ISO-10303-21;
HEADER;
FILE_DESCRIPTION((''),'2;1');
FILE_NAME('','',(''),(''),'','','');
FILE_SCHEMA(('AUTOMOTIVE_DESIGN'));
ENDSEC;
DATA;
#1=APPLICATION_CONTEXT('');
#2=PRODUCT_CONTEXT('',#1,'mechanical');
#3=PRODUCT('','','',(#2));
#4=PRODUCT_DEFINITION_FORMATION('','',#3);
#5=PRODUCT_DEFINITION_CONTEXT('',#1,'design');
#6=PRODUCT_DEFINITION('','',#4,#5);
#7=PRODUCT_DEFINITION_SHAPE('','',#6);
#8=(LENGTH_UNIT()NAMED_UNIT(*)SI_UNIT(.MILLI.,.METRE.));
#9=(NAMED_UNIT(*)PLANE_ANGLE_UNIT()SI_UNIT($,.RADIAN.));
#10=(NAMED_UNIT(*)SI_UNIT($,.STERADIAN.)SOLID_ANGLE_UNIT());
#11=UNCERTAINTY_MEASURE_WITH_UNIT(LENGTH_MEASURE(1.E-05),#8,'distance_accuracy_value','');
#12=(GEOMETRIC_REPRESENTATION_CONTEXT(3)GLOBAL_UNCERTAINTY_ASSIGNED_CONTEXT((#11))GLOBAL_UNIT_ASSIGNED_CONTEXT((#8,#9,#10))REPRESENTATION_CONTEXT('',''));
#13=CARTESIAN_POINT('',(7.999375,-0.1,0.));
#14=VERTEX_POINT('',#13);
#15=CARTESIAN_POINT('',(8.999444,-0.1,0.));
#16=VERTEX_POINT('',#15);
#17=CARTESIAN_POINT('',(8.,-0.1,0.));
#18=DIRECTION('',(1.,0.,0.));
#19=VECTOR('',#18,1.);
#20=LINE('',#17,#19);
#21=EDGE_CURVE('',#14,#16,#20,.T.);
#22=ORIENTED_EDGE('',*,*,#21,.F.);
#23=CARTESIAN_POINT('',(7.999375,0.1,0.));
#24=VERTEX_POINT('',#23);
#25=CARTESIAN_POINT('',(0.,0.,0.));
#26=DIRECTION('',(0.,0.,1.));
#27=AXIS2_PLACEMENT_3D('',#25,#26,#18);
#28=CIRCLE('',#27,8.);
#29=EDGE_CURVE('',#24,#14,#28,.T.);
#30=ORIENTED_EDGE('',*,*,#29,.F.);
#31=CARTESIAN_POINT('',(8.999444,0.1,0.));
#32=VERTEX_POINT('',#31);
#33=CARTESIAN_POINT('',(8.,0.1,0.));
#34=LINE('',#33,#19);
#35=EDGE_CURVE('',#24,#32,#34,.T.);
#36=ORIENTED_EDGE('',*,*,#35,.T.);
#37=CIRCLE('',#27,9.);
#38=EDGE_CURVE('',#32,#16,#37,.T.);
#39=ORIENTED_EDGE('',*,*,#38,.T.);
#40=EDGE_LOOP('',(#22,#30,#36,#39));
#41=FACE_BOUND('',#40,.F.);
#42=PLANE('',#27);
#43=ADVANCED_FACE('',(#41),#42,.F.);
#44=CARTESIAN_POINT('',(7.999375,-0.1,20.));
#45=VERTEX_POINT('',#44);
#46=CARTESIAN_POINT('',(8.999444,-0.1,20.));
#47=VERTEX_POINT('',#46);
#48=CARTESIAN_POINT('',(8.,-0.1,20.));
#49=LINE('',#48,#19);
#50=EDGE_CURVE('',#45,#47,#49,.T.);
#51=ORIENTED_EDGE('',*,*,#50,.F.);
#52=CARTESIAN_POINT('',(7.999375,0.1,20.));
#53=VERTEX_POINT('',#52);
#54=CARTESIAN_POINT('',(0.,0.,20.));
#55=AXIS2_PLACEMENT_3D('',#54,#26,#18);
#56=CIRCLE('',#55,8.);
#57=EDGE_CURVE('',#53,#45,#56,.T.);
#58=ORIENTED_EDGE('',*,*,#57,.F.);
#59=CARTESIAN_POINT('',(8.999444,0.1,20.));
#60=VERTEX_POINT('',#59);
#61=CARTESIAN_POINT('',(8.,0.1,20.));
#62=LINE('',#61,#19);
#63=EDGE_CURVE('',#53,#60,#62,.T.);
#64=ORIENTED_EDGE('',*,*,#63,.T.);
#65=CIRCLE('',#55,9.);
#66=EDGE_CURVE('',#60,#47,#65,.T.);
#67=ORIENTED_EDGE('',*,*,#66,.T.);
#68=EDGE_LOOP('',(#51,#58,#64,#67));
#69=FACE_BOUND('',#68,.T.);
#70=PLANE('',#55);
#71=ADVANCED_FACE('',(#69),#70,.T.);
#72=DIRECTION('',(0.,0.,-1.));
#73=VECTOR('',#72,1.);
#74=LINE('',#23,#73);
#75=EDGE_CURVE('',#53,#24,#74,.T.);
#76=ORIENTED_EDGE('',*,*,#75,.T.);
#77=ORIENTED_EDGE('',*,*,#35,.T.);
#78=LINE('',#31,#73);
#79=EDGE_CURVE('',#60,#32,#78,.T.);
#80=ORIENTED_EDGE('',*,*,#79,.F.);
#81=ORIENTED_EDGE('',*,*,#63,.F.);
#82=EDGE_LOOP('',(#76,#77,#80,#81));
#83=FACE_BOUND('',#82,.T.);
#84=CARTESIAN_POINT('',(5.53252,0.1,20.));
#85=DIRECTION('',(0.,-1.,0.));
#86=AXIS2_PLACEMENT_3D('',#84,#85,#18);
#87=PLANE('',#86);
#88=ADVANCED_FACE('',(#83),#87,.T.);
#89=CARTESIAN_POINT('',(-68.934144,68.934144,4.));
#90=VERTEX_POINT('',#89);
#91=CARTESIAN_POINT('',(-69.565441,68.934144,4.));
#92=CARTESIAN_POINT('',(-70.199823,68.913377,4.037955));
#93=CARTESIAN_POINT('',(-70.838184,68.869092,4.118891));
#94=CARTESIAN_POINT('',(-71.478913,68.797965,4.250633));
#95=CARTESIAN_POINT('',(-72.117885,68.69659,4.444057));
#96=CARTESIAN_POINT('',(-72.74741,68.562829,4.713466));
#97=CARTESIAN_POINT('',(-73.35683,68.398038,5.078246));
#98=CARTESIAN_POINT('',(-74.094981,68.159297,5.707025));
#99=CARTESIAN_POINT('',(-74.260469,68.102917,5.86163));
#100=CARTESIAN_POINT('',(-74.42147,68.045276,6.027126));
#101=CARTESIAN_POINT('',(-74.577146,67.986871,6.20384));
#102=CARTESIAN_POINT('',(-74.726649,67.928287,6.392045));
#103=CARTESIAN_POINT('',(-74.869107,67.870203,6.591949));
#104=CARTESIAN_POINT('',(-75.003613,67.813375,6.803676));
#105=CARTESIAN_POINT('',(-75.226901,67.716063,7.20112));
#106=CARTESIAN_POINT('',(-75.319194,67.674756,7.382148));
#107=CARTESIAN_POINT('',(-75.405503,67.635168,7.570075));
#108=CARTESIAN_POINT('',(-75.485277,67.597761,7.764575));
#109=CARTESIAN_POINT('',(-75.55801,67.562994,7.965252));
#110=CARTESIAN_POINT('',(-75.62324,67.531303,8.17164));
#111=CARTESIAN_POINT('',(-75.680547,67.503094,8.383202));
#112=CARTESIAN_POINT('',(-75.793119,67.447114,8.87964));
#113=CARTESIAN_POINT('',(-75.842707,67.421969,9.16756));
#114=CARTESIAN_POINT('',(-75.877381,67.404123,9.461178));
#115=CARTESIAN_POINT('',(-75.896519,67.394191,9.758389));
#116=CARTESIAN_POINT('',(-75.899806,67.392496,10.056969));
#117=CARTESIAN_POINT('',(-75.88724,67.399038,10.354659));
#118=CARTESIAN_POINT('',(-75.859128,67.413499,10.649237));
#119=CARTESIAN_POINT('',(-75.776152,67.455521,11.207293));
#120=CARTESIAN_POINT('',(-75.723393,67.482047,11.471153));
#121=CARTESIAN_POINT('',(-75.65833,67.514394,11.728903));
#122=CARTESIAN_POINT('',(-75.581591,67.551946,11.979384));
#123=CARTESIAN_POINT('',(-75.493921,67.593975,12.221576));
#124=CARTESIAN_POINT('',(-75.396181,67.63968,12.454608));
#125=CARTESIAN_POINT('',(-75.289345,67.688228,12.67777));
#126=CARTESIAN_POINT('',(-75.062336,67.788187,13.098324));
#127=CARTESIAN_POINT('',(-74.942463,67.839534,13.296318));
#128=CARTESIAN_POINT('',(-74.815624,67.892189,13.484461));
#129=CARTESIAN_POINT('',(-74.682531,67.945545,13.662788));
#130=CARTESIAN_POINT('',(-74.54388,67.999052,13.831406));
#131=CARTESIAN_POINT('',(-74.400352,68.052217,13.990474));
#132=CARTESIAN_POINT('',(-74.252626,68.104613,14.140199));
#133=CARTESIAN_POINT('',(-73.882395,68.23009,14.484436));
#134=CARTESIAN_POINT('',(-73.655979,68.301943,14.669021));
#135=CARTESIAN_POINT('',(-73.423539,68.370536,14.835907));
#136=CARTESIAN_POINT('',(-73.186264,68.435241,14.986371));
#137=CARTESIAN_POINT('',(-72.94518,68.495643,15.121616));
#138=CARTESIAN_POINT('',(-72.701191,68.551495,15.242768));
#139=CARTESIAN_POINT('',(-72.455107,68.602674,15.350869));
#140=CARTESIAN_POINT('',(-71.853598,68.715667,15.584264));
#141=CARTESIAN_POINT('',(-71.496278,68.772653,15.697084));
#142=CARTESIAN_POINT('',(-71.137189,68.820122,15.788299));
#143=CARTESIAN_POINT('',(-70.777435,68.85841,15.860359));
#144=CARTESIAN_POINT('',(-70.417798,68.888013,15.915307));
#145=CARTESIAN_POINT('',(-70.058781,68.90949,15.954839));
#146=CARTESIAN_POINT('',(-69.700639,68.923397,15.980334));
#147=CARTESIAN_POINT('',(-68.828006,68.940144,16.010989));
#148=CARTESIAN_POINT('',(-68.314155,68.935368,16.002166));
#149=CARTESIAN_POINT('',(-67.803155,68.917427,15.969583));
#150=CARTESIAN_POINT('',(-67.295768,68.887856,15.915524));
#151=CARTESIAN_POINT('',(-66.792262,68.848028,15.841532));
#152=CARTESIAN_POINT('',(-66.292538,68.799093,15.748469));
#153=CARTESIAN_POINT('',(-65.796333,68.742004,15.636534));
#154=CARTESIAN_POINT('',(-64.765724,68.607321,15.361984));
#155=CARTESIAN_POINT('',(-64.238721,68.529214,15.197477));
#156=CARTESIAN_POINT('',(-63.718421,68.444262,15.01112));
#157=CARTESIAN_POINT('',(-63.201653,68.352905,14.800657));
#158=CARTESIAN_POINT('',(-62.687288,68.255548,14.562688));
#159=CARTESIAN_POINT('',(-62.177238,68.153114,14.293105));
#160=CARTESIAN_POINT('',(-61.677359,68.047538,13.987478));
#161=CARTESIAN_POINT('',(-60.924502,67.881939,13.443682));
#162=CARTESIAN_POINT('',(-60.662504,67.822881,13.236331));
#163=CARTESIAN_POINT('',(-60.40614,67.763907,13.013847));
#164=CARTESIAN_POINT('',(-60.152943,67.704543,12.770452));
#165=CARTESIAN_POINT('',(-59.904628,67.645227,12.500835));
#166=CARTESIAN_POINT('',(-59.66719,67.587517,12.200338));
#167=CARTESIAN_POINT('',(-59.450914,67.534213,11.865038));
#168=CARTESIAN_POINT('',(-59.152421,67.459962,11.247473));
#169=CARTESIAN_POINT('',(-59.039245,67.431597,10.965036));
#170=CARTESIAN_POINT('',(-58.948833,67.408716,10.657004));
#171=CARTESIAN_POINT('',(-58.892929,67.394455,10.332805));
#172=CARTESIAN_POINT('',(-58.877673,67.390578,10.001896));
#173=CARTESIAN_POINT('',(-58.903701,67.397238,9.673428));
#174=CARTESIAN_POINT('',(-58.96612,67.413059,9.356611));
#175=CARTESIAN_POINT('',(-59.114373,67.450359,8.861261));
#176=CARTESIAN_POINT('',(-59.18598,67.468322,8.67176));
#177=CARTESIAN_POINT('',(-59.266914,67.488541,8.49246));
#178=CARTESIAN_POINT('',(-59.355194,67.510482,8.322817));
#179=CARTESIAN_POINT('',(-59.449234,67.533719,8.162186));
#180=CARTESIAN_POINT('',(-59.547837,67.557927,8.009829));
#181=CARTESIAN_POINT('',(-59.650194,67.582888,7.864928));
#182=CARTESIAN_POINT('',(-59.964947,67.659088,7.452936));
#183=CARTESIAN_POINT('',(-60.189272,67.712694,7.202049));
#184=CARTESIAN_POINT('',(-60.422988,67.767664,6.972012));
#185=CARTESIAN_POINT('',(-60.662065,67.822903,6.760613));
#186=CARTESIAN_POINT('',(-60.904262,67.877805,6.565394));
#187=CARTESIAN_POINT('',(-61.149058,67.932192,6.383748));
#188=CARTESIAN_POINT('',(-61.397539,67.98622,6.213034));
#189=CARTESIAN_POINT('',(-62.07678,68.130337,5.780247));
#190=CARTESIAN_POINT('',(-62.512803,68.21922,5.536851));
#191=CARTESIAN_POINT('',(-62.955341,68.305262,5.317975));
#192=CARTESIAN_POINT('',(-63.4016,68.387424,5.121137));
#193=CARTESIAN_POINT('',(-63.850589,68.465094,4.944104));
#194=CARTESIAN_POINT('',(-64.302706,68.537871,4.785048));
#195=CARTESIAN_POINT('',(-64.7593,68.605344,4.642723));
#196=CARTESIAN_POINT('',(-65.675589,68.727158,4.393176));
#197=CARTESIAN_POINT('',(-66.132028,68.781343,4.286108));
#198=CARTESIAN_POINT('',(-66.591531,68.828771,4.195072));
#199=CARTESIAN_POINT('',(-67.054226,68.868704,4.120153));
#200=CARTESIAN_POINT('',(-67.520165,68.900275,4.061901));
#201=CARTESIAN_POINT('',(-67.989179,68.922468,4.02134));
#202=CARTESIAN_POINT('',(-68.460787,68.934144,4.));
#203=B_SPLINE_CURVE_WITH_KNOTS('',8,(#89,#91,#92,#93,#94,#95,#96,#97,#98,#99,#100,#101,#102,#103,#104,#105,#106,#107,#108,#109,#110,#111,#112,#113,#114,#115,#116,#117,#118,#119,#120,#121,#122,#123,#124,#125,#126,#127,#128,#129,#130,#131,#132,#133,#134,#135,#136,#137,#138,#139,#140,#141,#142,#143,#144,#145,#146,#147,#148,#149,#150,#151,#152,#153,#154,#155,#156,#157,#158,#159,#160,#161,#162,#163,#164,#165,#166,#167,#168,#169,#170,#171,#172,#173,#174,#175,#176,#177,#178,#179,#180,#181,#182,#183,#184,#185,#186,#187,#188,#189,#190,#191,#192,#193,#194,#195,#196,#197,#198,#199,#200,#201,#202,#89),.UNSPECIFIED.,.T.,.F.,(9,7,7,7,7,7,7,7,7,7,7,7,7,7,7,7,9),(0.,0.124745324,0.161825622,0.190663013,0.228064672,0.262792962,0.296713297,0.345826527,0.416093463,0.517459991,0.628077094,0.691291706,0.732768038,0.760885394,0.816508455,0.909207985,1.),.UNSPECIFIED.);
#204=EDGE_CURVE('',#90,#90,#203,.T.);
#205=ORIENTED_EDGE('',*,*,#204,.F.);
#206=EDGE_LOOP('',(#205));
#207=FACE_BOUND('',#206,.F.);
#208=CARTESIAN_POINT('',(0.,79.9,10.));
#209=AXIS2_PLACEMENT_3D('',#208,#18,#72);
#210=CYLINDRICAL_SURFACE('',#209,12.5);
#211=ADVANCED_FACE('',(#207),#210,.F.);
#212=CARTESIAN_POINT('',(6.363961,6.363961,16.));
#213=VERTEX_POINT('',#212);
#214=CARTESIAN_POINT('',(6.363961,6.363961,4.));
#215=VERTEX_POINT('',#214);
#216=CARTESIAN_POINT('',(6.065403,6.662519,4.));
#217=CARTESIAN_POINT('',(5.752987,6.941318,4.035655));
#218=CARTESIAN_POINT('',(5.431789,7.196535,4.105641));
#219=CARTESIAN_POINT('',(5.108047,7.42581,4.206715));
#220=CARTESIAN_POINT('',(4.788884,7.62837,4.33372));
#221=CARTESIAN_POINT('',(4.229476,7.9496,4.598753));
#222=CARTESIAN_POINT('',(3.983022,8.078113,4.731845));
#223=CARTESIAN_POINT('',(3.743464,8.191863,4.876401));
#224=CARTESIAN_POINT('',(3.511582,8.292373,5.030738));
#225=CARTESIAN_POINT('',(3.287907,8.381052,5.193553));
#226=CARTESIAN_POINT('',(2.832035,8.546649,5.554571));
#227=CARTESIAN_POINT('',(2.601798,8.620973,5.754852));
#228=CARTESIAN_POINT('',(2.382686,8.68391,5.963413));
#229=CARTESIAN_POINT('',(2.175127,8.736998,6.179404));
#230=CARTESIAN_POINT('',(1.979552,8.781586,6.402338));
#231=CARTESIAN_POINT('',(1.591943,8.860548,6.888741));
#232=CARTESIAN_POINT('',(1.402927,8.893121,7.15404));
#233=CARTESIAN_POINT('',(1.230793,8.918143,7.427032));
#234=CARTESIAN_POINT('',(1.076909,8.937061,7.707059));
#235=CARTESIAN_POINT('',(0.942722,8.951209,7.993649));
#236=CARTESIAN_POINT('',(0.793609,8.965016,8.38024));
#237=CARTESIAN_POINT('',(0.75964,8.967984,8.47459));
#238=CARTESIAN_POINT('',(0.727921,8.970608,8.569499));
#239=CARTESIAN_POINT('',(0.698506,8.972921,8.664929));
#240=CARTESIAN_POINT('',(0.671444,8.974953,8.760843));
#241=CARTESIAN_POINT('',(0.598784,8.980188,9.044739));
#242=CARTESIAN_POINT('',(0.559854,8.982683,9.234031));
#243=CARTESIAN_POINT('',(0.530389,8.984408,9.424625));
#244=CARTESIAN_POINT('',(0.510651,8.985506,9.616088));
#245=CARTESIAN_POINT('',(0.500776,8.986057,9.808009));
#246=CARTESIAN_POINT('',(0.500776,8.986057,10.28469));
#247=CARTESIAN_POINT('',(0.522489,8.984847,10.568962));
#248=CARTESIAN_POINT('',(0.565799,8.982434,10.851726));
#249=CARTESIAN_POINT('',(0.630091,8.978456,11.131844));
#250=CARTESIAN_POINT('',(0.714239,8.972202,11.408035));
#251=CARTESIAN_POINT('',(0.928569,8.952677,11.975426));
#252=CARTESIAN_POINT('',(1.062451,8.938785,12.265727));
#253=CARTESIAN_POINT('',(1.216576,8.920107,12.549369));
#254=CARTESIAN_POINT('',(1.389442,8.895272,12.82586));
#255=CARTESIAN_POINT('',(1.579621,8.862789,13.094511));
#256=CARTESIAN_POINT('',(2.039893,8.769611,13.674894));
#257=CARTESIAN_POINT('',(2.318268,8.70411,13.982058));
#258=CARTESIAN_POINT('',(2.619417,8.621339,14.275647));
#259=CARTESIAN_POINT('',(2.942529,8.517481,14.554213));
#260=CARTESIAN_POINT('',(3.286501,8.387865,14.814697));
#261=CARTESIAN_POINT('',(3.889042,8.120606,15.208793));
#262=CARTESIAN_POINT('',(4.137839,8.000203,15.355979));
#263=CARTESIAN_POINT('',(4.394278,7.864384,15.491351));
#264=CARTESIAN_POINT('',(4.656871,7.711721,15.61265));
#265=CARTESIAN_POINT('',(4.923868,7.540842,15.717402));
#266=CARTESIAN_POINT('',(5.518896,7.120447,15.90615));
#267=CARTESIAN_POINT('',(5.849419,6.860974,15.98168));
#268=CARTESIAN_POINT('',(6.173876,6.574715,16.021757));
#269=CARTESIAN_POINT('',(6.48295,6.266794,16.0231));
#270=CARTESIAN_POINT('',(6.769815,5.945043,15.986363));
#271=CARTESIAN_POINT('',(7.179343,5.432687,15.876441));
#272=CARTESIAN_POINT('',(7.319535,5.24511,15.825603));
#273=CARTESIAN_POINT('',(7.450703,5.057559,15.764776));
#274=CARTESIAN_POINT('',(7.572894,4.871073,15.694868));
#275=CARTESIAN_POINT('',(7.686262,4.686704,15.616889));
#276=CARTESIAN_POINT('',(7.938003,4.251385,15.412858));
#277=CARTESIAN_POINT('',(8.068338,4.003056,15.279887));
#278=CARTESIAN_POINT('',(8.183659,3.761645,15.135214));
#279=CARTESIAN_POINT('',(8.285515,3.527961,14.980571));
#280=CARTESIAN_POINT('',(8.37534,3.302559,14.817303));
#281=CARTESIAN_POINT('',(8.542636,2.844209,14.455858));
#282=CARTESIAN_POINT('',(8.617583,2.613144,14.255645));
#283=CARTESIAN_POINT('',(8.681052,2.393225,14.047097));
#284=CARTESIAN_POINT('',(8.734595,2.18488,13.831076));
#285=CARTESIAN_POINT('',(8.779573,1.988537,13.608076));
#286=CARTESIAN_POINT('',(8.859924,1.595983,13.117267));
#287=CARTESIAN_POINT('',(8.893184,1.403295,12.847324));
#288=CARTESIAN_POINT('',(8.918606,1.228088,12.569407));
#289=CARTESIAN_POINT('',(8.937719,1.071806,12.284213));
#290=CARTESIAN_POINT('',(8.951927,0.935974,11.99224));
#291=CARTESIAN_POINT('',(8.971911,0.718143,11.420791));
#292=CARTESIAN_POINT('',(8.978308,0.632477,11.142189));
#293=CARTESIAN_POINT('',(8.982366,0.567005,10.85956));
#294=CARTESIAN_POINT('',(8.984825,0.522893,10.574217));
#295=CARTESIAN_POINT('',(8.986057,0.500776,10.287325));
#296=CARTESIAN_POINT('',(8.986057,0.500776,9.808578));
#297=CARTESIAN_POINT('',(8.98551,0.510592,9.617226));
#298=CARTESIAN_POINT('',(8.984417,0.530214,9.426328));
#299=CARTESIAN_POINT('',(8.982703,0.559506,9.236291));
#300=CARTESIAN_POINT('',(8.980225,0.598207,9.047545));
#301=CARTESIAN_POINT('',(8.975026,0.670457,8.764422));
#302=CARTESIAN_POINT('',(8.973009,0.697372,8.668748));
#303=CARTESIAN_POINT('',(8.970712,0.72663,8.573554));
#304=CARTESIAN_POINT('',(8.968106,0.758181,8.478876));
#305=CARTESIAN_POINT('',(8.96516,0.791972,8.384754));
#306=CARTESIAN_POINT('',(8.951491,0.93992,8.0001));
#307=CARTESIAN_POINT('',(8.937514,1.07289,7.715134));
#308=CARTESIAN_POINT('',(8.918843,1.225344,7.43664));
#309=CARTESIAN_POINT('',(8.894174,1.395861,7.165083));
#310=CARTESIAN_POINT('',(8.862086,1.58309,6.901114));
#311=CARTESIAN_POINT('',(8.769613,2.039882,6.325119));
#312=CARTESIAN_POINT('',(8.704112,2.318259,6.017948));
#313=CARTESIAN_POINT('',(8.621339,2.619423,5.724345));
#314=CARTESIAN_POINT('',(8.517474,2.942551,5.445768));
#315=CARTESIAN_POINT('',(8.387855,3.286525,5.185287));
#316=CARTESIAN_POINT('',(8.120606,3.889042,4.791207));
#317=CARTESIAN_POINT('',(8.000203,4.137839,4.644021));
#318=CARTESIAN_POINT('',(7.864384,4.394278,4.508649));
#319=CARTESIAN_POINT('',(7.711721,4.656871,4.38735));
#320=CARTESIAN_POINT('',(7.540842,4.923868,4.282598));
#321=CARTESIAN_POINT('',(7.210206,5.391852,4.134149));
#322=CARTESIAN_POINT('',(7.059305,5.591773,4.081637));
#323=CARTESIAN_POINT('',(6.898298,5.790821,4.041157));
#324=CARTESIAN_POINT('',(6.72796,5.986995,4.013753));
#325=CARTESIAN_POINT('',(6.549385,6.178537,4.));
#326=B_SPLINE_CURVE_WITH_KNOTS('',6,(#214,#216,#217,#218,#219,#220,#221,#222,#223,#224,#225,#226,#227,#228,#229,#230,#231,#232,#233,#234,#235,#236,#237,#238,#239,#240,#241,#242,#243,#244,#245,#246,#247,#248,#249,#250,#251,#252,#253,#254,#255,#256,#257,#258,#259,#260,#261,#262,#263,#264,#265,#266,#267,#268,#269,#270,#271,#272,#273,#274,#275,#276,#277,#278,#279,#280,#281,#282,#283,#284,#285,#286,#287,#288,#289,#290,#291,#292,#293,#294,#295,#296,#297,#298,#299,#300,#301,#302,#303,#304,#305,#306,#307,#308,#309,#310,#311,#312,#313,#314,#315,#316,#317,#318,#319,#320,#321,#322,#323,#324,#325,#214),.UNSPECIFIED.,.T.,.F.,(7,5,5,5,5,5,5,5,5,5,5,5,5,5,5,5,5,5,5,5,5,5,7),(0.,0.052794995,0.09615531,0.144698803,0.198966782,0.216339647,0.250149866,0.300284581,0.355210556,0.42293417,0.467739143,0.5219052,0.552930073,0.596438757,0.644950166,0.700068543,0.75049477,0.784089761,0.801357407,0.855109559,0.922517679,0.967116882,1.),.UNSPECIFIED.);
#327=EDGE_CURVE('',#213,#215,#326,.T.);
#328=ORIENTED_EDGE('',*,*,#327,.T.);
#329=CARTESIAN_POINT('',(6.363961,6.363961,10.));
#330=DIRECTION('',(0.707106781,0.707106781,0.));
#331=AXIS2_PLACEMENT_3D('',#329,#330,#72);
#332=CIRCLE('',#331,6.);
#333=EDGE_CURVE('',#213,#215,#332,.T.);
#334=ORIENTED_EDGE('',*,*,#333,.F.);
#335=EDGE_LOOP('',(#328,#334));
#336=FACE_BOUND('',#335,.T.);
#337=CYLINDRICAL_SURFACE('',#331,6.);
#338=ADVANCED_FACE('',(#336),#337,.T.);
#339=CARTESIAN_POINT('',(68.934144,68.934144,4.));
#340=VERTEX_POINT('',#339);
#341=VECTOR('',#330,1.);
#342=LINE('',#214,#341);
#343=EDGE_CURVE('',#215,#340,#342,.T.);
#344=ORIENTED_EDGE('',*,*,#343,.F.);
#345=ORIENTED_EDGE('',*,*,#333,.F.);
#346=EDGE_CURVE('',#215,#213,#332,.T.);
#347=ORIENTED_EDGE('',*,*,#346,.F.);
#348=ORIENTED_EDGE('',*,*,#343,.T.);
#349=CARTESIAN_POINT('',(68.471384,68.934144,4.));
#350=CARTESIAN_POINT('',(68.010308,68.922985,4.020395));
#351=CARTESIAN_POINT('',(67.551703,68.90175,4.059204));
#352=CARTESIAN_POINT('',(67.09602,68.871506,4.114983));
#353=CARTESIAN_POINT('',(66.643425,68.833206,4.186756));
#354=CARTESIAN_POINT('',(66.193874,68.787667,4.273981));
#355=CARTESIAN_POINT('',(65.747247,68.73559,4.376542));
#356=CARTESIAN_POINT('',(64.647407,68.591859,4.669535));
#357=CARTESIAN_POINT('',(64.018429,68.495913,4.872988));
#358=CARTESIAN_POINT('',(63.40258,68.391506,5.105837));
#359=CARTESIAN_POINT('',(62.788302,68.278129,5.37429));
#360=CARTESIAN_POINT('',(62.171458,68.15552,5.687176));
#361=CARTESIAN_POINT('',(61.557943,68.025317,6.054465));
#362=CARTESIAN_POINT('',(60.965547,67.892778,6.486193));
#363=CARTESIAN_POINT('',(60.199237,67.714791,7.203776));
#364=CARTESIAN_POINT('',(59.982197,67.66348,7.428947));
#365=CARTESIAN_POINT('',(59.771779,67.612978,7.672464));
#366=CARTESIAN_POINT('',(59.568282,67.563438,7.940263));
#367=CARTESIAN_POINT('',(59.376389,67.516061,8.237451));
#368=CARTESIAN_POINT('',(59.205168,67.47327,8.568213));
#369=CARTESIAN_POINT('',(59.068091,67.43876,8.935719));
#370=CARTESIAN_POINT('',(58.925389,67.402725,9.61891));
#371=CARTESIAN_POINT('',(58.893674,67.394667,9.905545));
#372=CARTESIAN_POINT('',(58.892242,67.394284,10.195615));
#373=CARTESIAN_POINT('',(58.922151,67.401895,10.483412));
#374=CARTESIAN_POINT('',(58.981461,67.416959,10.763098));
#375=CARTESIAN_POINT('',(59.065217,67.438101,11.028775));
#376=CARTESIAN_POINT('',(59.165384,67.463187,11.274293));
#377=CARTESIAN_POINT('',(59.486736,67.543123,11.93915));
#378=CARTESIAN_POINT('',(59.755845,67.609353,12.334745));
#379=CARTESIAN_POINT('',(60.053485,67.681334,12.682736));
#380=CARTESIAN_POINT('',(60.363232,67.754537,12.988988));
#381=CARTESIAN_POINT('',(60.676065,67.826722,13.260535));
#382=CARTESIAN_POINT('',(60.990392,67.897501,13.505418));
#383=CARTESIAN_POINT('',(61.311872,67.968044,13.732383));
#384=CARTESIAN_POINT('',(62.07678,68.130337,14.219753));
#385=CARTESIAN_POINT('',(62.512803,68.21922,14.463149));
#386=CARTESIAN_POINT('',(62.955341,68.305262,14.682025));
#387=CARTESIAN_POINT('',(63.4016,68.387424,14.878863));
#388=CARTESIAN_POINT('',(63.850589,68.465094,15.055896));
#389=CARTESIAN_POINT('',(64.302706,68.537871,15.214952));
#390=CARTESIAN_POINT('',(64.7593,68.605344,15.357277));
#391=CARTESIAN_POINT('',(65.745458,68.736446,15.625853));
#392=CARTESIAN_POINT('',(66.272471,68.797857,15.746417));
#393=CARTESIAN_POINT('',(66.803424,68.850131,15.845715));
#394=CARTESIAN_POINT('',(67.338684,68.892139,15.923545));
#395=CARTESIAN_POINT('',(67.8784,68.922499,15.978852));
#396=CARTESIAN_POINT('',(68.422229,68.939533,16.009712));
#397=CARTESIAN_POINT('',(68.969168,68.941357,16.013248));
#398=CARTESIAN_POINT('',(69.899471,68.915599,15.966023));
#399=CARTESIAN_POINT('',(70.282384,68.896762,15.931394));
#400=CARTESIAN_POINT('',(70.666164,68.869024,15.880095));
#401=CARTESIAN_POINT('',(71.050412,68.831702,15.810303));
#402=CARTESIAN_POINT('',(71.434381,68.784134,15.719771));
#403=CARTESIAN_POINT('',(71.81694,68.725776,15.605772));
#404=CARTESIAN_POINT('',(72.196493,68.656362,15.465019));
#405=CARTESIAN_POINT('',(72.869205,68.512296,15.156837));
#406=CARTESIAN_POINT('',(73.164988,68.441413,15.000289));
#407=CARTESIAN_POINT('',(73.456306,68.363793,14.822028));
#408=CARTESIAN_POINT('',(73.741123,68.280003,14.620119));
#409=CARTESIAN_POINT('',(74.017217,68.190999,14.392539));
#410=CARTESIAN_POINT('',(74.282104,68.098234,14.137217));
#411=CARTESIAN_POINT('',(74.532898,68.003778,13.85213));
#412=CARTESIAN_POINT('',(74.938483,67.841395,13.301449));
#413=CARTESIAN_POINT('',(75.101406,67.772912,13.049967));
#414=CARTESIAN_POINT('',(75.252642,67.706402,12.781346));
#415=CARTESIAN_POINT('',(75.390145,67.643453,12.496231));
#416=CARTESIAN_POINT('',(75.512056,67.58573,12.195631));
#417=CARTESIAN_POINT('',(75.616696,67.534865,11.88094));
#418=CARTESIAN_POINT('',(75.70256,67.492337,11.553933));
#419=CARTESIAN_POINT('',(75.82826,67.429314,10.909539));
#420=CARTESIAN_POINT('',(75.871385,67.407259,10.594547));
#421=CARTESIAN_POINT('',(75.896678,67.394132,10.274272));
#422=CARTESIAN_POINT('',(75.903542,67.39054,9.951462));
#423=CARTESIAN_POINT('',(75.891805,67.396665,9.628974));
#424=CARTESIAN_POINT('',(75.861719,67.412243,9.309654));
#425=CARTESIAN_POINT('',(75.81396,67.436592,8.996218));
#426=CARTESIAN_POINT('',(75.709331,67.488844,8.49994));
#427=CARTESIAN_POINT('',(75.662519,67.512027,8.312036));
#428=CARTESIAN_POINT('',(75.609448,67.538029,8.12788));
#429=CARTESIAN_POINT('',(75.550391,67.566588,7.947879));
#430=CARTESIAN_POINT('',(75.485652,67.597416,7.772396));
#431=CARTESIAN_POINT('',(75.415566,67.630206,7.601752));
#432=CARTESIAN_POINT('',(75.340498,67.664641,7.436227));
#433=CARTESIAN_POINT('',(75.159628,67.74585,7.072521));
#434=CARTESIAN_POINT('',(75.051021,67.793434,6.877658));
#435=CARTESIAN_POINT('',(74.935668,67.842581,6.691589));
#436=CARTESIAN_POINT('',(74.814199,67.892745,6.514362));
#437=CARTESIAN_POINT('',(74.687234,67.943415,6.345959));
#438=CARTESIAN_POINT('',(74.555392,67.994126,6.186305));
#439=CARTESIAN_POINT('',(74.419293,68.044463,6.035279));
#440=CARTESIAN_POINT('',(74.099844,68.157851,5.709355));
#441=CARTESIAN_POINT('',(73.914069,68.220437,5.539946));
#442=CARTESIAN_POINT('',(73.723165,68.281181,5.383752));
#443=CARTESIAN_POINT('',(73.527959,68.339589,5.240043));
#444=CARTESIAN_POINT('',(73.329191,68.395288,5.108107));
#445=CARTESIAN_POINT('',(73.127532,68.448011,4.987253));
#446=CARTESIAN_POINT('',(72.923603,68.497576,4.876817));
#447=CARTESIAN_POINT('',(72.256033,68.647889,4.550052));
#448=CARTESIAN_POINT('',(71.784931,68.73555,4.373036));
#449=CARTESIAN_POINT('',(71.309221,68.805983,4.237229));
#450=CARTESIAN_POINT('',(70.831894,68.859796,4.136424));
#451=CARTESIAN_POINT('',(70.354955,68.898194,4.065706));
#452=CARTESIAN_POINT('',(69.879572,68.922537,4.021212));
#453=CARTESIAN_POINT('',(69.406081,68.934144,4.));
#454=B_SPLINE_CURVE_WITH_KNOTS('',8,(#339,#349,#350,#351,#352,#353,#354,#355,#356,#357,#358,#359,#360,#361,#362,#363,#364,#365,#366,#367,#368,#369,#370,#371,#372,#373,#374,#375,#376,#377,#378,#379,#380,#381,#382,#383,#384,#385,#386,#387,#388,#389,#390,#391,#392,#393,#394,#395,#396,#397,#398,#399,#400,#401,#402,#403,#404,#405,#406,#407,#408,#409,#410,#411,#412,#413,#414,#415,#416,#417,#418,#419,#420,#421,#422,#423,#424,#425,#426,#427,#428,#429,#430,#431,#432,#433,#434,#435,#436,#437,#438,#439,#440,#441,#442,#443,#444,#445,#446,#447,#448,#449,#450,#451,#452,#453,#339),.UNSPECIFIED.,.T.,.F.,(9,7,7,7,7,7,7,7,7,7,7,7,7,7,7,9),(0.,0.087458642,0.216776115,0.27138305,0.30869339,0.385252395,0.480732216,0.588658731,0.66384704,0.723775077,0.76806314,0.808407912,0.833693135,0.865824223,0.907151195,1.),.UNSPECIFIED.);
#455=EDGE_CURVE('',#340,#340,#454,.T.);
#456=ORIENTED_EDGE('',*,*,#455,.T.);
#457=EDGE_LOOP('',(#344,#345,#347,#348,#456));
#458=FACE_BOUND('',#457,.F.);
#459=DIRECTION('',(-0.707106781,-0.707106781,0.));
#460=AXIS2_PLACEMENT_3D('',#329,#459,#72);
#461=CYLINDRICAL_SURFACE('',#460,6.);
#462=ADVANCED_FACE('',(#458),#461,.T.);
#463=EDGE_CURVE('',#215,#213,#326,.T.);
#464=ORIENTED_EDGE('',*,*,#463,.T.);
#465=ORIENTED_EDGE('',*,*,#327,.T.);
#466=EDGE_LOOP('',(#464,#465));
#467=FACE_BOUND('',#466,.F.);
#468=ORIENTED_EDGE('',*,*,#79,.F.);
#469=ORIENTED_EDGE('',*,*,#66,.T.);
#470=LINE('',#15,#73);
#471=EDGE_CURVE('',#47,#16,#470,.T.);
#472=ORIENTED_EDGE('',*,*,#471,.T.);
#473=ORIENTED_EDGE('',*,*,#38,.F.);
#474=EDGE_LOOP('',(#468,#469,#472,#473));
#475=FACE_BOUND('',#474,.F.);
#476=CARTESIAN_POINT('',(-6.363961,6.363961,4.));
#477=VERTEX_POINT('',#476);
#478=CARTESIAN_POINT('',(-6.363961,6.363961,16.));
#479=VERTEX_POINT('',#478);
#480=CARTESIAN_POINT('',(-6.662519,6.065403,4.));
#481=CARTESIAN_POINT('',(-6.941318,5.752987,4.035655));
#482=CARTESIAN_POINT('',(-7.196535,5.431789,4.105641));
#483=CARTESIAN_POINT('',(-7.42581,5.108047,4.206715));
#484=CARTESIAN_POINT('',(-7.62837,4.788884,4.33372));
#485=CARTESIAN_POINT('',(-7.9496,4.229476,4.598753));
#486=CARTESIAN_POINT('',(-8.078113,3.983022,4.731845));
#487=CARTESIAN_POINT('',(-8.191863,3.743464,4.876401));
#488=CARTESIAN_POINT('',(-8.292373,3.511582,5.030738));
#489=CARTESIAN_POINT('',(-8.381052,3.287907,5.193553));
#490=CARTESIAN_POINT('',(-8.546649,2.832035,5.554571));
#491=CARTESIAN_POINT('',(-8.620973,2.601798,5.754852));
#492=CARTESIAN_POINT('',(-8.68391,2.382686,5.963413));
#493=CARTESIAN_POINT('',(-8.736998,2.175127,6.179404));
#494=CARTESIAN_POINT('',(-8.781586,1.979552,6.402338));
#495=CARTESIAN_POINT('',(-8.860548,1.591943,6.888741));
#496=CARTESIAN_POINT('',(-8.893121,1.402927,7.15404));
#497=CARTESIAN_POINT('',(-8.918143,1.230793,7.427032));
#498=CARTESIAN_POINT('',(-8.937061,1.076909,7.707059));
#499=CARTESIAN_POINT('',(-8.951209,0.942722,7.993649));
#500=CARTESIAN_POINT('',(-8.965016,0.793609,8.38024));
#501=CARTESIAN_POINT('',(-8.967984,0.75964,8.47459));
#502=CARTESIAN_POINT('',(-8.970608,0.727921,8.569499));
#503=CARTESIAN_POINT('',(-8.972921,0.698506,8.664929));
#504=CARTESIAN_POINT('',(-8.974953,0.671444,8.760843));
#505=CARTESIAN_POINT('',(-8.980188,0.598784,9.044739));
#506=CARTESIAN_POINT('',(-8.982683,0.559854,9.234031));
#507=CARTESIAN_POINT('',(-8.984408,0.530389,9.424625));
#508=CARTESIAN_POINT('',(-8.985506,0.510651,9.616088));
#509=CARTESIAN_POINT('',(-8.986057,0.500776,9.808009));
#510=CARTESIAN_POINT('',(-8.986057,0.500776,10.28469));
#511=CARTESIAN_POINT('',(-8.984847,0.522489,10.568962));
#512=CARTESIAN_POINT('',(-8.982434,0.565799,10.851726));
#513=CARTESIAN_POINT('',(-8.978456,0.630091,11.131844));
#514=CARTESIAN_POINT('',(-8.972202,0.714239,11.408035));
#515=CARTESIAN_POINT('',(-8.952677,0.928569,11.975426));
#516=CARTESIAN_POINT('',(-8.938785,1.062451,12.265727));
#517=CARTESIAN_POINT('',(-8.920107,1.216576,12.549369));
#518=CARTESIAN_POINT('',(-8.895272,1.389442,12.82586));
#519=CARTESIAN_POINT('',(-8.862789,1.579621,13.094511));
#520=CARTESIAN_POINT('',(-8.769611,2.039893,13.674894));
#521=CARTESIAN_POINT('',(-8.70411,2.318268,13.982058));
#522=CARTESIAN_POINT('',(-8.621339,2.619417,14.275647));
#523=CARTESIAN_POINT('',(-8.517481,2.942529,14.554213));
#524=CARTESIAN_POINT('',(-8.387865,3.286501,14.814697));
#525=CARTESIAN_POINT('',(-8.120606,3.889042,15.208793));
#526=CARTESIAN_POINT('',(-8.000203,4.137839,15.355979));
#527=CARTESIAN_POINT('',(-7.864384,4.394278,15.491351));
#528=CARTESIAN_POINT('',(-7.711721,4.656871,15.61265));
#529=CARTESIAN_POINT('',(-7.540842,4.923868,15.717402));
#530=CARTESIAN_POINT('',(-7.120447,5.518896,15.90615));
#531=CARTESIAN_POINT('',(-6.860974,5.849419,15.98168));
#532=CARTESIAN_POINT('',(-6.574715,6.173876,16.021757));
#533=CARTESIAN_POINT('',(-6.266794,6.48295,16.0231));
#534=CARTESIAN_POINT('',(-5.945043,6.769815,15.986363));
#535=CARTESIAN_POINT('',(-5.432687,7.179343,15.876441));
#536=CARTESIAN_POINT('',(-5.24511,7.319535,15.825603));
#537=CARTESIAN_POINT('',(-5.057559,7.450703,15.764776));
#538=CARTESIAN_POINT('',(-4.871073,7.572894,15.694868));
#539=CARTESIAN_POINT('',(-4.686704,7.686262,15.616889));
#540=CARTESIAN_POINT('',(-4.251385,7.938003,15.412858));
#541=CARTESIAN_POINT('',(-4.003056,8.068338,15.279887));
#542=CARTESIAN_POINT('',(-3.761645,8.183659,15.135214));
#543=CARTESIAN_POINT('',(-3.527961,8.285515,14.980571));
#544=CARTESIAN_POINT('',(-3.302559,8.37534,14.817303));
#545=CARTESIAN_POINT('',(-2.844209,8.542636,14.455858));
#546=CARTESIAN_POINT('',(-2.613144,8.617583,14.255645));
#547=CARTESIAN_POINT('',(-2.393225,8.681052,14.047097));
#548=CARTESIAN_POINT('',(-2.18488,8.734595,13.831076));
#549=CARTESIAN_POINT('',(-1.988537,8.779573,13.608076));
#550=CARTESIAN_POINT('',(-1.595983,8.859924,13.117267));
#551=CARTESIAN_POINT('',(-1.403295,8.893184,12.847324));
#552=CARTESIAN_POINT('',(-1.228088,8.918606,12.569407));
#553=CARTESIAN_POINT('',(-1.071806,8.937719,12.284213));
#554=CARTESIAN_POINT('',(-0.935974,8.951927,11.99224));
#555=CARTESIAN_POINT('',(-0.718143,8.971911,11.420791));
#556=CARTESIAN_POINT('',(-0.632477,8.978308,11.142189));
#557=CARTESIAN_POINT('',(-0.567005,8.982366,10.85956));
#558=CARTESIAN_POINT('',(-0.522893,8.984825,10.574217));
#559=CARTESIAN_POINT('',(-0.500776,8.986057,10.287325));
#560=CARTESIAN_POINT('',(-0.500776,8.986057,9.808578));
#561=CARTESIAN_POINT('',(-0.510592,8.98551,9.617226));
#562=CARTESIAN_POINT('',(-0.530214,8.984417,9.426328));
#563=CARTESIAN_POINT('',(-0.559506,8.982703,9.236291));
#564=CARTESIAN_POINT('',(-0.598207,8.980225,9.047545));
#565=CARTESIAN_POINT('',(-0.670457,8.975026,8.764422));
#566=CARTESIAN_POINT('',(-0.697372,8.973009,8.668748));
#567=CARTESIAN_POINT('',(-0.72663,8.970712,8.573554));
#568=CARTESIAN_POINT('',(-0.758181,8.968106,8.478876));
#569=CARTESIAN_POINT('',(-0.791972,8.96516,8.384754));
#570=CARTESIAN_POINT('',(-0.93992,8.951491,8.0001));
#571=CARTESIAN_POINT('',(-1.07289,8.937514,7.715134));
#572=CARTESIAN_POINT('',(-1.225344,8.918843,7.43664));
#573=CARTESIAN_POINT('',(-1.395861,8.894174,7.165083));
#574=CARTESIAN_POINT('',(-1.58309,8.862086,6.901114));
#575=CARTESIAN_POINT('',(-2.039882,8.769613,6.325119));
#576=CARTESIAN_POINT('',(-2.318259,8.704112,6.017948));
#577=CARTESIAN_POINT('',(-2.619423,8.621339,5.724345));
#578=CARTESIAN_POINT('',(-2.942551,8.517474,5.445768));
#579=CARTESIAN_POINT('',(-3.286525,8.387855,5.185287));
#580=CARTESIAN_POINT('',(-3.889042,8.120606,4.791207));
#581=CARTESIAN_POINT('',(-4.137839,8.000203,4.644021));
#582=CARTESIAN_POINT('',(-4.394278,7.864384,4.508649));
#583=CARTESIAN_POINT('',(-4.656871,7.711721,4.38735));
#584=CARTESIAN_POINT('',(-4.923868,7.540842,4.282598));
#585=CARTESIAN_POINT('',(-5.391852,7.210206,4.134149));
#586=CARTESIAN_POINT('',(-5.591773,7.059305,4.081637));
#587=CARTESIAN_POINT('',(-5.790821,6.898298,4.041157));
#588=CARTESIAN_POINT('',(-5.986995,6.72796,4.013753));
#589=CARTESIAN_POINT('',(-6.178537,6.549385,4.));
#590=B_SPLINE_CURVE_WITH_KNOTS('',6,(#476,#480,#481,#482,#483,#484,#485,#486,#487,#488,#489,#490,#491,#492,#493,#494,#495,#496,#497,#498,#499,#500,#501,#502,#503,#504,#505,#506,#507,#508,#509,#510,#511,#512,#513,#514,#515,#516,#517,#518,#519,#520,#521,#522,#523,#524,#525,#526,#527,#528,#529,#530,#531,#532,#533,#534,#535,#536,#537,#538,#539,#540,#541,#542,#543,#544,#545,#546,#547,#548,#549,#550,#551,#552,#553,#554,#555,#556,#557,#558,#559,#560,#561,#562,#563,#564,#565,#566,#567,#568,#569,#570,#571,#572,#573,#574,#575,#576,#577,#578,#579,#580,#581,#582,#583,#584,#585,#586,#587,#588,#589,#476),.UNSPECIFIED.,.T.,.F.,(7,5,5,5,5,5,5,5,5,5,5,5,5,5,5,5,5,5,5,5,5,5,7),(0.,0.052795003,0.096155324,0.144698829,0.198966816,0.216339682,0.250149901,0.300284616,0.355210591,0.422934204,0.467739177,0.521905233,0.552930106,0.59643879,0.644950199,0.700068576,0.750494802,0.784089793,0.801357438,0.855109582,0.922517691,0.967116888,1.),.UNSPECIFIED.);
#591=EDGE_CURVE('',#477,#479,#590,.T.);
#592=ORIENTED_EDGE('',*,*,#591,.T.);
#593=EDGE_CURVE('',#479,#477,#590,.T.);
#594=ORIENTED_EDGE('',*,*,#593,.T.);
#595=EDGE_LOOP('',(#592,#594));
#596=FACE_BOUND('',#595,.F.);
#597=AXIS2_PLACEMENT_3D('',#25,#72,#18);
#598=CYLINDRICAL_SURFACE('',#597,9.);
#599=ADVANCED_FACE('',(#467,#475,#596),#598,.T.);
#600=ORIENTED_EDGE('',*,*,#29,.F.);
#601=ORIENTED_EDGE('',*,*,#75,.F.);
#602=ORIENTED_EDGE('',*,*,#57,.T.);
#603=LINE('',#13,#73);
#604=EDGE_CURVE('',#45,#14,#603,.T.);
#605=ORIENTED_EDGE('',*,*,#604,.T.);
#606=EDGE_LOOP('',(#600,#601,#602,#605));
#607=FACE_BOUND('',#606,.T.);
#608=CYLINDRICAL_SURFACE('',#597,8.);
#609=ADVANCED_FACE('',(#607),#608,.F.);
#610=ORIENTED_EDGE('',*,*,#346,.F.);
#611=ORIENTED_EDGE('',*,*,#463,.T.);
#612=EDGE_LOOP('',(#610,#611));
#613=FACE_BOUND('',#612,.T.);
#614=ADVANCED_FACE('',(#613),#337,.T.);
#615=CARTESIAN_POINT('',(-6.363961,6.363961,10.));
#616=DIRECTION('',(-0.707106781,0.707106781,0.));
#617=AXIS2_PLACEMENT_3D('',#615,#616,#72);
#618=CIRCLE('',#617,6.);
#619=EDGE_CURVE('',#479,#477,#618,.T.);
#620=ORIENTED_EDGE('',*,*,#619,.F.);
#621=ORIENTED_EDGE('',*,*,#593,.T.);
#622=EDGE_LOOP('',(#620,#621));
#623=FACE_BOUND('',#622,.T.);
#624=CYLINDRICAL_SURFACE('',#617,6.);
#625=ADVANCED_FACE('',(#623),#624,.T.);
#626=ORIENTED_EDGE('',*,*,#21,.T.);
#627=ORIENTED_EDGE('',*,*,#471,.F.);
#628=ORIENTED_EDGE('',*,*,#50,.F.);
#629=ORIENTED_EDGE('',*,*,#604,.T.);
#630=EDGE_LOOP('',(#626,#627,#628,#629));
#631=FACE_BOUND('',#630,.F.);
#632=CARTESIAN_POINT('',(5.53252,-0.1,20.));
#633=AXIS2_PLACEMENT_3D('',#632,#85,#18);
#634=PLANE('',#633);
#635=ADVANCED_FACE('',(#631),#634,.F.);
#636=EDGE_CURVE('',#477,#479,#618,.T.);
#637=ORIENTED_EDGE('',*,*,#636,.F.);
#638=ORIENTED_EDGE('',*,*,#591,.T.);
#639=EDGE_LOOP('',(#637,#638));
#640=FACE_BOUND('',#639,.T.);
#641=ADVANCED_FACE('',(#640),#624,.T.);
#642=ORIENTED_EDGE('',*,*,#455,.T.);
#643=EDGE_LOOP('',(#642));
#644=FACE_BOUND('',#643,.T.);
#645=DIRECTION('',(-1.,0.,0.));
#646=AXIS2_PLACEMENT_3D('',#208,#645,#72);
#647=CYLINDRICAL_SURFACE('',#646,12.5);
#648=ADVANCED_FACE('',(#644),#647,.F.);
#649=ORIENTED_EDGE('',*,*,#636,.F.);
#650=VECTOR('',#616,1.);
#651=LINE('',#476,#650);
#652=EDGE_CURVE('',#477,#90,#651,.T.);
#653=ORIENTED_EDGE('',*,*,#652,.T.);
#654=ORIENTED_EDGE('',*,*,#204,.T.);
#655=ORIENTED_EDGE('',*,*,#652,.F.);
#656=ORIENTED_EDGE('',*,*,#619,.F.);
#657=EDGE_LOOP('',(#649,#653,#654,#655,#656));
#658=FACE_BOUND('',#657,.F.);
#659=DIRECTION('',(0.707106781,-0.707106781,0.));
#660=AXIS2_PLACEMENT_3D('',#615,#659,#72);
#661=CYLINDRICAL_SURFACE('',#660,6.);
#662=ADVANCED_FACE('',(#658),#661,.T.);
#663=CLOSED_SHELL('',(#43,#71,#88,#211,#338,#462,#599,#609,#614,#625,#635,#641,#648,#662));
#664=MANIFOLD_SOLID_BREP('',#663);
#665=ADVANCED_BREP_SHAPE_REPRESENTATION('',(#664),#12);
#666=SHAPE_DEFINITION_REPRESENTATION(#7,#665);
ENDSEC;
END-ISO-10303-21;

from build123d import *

# Parameters (mm, degrees)
SKETCH9_R                       = 9
SKETCH9_R_2                     = 8
BOSS_EXTRUDE1_DEPTH             = 20
SKETCH10_W                      = 4.934959926
SKETCH10_H                      = 0.2
CUT_EXTRUDE1_DEPTH              = 20
SKETCH11_R                      = 6
BOSS_EXTRUDE2_DEPTH             = 100
BOSS_EXTRUDE2_DIRECTION_2_REACH = 23.728
SKETCH12_R                      = 6
BOSS_EXTRUDE3_DEPTH             = 100
BOSS_EXTRUDE3_DIRECTION_2_REACH = 74.864
SKETCH14_R                      = 12.5
CUT_EXTRUDE3_DEPTH              = 82.317279836
CUT_EXTRUDE3_DEPTH_BACK         = 82.317279836


with BuildPart() as part:
    # Sketch9 → Boss-Extrude1 (new body)
    with BuildSketch(Plane.XY):
        Circle(SKETCH9_R)
        Circle(SKETCH9_R_2, mode=Mode.SUBTRACT)
    extrude(amount=BOSS_EXTRUDE1_DEPTH)

    # Sketch10 → Cut-Extrude1 (cut)
    with BuildSketch(Plane.XY.offset(20)):
        with Locations((8, 0)):
            Rectangle(SKETCH10_W, SKETCH10_H)
    extrude(amount=-CUT_EXTRUDE1_DEPTH, mode=Mode.SUBTRACT)

    # Sketch11 → Boss-Extrude2 (add)
    with BuildSketch(Plane(origin=(-6.363961031, 6.363961031, 0), x_dir=(0, 0, -1), z_dir=(-0.707106781, 0.707106781, 0))):
        with Locations((-10, 0)):
            Circle(SKETCH11_R)
    extrude(amount=BOSS_EXTRUDE2_DEPTH)

    # Sketch11 → Boss-Extrude2 direction 2 (add, up to next)
    with BuildSketch(Plane(origin=(-6.363961031, 6.363961031, 0), x_dir=(0, 0, -1), z_dir=(-0.707106781, 0.707106781, 0)), mode=Mode.PRIVATE) as boss_extrude2_direction_2_sk1:
        with Locations((-10, 0)):
            Circle(SKETCH11_R)
    boss_extrude2_direction_2_tool1 = extrude(boss_extrude2_direction_2_sk1.sketch, amount=-BOSS_EXTRUDE2_DIRECTION_2_REACH, mode=Mode.PRIVATE) - part.part
    add(boss_extrude2_direction_2_tool1.solids().sort_by_distance((-6.363961, 6.363961, 10))[0])
    add(boss_extrude2_direction_2_tool1.solids().sort_by_distance((-6.363961, 6.363961, 10))[1])

    # Sketch12 → Boss-Extrude3 (add)
    with BuildSketch(Plane(origin=(6.363961031, 6.363961031, 0), x_dir=(0, 0, -1), z_dir=(0.707106781, 0.707106781, 0))):
        with Locations((-10, 0)):
            Circle(SKETCH12_R)
    extrude(amount=BOSS_EXTRUDE3_DEPTH)

    # Sketch12 → Boss-Extrude3 direction 2 (add, up to next)
    with BuildSketch(Plane(origin=(6.363961031, 6.363961031, 0), x_dir=(0, 0, -1), z_dir=(0.707106781, 0.707106781, 0)), mode=Mode.PRIVATE) as boss_extrude3_direction_2_sk1:
        with Locations((-10, 0)):
            Circle(SKETCH12_R)
    boss_extrude3_direction_2_tool1 = extrude(boss_extrude3_direction_2_sk1.sketch, amount=-BOSS_EXTRUDE3_DIRECTION_2_REACH, mode=Mode.PRIVATE) - part.part
    add(boss_extrude3_direction_2_tool1.solids().sort_by_distance((6.363961, 6.363961, 10))[0])
    add(boss_extrude3_direction_2_tool1.solids().sort_by_distance((6.363961, 6.363961, 10))[1])

    # Sketch14 → Cut-Extrude3 (cut, two sides)
    with BuildSketch(Plane(origin=(0, 0, 0), x_dir=(0, 0, -1), z_dir=(1, 0, 0))) as cut_extrude3_sk:
        with Locations((-10, 79.9)):
            Circle(SKETCH14_R)
    extrude(amount=CUT_EXTRUDE3_DEPTH, mode=Mode.SUBTRACT)
    extrude(cut_extrude3_sk.sketch, amount=-CUT_EXTRUDE3_DEPTH_BACK, mode=Mode.SUBTRACT)


solid = part.part
